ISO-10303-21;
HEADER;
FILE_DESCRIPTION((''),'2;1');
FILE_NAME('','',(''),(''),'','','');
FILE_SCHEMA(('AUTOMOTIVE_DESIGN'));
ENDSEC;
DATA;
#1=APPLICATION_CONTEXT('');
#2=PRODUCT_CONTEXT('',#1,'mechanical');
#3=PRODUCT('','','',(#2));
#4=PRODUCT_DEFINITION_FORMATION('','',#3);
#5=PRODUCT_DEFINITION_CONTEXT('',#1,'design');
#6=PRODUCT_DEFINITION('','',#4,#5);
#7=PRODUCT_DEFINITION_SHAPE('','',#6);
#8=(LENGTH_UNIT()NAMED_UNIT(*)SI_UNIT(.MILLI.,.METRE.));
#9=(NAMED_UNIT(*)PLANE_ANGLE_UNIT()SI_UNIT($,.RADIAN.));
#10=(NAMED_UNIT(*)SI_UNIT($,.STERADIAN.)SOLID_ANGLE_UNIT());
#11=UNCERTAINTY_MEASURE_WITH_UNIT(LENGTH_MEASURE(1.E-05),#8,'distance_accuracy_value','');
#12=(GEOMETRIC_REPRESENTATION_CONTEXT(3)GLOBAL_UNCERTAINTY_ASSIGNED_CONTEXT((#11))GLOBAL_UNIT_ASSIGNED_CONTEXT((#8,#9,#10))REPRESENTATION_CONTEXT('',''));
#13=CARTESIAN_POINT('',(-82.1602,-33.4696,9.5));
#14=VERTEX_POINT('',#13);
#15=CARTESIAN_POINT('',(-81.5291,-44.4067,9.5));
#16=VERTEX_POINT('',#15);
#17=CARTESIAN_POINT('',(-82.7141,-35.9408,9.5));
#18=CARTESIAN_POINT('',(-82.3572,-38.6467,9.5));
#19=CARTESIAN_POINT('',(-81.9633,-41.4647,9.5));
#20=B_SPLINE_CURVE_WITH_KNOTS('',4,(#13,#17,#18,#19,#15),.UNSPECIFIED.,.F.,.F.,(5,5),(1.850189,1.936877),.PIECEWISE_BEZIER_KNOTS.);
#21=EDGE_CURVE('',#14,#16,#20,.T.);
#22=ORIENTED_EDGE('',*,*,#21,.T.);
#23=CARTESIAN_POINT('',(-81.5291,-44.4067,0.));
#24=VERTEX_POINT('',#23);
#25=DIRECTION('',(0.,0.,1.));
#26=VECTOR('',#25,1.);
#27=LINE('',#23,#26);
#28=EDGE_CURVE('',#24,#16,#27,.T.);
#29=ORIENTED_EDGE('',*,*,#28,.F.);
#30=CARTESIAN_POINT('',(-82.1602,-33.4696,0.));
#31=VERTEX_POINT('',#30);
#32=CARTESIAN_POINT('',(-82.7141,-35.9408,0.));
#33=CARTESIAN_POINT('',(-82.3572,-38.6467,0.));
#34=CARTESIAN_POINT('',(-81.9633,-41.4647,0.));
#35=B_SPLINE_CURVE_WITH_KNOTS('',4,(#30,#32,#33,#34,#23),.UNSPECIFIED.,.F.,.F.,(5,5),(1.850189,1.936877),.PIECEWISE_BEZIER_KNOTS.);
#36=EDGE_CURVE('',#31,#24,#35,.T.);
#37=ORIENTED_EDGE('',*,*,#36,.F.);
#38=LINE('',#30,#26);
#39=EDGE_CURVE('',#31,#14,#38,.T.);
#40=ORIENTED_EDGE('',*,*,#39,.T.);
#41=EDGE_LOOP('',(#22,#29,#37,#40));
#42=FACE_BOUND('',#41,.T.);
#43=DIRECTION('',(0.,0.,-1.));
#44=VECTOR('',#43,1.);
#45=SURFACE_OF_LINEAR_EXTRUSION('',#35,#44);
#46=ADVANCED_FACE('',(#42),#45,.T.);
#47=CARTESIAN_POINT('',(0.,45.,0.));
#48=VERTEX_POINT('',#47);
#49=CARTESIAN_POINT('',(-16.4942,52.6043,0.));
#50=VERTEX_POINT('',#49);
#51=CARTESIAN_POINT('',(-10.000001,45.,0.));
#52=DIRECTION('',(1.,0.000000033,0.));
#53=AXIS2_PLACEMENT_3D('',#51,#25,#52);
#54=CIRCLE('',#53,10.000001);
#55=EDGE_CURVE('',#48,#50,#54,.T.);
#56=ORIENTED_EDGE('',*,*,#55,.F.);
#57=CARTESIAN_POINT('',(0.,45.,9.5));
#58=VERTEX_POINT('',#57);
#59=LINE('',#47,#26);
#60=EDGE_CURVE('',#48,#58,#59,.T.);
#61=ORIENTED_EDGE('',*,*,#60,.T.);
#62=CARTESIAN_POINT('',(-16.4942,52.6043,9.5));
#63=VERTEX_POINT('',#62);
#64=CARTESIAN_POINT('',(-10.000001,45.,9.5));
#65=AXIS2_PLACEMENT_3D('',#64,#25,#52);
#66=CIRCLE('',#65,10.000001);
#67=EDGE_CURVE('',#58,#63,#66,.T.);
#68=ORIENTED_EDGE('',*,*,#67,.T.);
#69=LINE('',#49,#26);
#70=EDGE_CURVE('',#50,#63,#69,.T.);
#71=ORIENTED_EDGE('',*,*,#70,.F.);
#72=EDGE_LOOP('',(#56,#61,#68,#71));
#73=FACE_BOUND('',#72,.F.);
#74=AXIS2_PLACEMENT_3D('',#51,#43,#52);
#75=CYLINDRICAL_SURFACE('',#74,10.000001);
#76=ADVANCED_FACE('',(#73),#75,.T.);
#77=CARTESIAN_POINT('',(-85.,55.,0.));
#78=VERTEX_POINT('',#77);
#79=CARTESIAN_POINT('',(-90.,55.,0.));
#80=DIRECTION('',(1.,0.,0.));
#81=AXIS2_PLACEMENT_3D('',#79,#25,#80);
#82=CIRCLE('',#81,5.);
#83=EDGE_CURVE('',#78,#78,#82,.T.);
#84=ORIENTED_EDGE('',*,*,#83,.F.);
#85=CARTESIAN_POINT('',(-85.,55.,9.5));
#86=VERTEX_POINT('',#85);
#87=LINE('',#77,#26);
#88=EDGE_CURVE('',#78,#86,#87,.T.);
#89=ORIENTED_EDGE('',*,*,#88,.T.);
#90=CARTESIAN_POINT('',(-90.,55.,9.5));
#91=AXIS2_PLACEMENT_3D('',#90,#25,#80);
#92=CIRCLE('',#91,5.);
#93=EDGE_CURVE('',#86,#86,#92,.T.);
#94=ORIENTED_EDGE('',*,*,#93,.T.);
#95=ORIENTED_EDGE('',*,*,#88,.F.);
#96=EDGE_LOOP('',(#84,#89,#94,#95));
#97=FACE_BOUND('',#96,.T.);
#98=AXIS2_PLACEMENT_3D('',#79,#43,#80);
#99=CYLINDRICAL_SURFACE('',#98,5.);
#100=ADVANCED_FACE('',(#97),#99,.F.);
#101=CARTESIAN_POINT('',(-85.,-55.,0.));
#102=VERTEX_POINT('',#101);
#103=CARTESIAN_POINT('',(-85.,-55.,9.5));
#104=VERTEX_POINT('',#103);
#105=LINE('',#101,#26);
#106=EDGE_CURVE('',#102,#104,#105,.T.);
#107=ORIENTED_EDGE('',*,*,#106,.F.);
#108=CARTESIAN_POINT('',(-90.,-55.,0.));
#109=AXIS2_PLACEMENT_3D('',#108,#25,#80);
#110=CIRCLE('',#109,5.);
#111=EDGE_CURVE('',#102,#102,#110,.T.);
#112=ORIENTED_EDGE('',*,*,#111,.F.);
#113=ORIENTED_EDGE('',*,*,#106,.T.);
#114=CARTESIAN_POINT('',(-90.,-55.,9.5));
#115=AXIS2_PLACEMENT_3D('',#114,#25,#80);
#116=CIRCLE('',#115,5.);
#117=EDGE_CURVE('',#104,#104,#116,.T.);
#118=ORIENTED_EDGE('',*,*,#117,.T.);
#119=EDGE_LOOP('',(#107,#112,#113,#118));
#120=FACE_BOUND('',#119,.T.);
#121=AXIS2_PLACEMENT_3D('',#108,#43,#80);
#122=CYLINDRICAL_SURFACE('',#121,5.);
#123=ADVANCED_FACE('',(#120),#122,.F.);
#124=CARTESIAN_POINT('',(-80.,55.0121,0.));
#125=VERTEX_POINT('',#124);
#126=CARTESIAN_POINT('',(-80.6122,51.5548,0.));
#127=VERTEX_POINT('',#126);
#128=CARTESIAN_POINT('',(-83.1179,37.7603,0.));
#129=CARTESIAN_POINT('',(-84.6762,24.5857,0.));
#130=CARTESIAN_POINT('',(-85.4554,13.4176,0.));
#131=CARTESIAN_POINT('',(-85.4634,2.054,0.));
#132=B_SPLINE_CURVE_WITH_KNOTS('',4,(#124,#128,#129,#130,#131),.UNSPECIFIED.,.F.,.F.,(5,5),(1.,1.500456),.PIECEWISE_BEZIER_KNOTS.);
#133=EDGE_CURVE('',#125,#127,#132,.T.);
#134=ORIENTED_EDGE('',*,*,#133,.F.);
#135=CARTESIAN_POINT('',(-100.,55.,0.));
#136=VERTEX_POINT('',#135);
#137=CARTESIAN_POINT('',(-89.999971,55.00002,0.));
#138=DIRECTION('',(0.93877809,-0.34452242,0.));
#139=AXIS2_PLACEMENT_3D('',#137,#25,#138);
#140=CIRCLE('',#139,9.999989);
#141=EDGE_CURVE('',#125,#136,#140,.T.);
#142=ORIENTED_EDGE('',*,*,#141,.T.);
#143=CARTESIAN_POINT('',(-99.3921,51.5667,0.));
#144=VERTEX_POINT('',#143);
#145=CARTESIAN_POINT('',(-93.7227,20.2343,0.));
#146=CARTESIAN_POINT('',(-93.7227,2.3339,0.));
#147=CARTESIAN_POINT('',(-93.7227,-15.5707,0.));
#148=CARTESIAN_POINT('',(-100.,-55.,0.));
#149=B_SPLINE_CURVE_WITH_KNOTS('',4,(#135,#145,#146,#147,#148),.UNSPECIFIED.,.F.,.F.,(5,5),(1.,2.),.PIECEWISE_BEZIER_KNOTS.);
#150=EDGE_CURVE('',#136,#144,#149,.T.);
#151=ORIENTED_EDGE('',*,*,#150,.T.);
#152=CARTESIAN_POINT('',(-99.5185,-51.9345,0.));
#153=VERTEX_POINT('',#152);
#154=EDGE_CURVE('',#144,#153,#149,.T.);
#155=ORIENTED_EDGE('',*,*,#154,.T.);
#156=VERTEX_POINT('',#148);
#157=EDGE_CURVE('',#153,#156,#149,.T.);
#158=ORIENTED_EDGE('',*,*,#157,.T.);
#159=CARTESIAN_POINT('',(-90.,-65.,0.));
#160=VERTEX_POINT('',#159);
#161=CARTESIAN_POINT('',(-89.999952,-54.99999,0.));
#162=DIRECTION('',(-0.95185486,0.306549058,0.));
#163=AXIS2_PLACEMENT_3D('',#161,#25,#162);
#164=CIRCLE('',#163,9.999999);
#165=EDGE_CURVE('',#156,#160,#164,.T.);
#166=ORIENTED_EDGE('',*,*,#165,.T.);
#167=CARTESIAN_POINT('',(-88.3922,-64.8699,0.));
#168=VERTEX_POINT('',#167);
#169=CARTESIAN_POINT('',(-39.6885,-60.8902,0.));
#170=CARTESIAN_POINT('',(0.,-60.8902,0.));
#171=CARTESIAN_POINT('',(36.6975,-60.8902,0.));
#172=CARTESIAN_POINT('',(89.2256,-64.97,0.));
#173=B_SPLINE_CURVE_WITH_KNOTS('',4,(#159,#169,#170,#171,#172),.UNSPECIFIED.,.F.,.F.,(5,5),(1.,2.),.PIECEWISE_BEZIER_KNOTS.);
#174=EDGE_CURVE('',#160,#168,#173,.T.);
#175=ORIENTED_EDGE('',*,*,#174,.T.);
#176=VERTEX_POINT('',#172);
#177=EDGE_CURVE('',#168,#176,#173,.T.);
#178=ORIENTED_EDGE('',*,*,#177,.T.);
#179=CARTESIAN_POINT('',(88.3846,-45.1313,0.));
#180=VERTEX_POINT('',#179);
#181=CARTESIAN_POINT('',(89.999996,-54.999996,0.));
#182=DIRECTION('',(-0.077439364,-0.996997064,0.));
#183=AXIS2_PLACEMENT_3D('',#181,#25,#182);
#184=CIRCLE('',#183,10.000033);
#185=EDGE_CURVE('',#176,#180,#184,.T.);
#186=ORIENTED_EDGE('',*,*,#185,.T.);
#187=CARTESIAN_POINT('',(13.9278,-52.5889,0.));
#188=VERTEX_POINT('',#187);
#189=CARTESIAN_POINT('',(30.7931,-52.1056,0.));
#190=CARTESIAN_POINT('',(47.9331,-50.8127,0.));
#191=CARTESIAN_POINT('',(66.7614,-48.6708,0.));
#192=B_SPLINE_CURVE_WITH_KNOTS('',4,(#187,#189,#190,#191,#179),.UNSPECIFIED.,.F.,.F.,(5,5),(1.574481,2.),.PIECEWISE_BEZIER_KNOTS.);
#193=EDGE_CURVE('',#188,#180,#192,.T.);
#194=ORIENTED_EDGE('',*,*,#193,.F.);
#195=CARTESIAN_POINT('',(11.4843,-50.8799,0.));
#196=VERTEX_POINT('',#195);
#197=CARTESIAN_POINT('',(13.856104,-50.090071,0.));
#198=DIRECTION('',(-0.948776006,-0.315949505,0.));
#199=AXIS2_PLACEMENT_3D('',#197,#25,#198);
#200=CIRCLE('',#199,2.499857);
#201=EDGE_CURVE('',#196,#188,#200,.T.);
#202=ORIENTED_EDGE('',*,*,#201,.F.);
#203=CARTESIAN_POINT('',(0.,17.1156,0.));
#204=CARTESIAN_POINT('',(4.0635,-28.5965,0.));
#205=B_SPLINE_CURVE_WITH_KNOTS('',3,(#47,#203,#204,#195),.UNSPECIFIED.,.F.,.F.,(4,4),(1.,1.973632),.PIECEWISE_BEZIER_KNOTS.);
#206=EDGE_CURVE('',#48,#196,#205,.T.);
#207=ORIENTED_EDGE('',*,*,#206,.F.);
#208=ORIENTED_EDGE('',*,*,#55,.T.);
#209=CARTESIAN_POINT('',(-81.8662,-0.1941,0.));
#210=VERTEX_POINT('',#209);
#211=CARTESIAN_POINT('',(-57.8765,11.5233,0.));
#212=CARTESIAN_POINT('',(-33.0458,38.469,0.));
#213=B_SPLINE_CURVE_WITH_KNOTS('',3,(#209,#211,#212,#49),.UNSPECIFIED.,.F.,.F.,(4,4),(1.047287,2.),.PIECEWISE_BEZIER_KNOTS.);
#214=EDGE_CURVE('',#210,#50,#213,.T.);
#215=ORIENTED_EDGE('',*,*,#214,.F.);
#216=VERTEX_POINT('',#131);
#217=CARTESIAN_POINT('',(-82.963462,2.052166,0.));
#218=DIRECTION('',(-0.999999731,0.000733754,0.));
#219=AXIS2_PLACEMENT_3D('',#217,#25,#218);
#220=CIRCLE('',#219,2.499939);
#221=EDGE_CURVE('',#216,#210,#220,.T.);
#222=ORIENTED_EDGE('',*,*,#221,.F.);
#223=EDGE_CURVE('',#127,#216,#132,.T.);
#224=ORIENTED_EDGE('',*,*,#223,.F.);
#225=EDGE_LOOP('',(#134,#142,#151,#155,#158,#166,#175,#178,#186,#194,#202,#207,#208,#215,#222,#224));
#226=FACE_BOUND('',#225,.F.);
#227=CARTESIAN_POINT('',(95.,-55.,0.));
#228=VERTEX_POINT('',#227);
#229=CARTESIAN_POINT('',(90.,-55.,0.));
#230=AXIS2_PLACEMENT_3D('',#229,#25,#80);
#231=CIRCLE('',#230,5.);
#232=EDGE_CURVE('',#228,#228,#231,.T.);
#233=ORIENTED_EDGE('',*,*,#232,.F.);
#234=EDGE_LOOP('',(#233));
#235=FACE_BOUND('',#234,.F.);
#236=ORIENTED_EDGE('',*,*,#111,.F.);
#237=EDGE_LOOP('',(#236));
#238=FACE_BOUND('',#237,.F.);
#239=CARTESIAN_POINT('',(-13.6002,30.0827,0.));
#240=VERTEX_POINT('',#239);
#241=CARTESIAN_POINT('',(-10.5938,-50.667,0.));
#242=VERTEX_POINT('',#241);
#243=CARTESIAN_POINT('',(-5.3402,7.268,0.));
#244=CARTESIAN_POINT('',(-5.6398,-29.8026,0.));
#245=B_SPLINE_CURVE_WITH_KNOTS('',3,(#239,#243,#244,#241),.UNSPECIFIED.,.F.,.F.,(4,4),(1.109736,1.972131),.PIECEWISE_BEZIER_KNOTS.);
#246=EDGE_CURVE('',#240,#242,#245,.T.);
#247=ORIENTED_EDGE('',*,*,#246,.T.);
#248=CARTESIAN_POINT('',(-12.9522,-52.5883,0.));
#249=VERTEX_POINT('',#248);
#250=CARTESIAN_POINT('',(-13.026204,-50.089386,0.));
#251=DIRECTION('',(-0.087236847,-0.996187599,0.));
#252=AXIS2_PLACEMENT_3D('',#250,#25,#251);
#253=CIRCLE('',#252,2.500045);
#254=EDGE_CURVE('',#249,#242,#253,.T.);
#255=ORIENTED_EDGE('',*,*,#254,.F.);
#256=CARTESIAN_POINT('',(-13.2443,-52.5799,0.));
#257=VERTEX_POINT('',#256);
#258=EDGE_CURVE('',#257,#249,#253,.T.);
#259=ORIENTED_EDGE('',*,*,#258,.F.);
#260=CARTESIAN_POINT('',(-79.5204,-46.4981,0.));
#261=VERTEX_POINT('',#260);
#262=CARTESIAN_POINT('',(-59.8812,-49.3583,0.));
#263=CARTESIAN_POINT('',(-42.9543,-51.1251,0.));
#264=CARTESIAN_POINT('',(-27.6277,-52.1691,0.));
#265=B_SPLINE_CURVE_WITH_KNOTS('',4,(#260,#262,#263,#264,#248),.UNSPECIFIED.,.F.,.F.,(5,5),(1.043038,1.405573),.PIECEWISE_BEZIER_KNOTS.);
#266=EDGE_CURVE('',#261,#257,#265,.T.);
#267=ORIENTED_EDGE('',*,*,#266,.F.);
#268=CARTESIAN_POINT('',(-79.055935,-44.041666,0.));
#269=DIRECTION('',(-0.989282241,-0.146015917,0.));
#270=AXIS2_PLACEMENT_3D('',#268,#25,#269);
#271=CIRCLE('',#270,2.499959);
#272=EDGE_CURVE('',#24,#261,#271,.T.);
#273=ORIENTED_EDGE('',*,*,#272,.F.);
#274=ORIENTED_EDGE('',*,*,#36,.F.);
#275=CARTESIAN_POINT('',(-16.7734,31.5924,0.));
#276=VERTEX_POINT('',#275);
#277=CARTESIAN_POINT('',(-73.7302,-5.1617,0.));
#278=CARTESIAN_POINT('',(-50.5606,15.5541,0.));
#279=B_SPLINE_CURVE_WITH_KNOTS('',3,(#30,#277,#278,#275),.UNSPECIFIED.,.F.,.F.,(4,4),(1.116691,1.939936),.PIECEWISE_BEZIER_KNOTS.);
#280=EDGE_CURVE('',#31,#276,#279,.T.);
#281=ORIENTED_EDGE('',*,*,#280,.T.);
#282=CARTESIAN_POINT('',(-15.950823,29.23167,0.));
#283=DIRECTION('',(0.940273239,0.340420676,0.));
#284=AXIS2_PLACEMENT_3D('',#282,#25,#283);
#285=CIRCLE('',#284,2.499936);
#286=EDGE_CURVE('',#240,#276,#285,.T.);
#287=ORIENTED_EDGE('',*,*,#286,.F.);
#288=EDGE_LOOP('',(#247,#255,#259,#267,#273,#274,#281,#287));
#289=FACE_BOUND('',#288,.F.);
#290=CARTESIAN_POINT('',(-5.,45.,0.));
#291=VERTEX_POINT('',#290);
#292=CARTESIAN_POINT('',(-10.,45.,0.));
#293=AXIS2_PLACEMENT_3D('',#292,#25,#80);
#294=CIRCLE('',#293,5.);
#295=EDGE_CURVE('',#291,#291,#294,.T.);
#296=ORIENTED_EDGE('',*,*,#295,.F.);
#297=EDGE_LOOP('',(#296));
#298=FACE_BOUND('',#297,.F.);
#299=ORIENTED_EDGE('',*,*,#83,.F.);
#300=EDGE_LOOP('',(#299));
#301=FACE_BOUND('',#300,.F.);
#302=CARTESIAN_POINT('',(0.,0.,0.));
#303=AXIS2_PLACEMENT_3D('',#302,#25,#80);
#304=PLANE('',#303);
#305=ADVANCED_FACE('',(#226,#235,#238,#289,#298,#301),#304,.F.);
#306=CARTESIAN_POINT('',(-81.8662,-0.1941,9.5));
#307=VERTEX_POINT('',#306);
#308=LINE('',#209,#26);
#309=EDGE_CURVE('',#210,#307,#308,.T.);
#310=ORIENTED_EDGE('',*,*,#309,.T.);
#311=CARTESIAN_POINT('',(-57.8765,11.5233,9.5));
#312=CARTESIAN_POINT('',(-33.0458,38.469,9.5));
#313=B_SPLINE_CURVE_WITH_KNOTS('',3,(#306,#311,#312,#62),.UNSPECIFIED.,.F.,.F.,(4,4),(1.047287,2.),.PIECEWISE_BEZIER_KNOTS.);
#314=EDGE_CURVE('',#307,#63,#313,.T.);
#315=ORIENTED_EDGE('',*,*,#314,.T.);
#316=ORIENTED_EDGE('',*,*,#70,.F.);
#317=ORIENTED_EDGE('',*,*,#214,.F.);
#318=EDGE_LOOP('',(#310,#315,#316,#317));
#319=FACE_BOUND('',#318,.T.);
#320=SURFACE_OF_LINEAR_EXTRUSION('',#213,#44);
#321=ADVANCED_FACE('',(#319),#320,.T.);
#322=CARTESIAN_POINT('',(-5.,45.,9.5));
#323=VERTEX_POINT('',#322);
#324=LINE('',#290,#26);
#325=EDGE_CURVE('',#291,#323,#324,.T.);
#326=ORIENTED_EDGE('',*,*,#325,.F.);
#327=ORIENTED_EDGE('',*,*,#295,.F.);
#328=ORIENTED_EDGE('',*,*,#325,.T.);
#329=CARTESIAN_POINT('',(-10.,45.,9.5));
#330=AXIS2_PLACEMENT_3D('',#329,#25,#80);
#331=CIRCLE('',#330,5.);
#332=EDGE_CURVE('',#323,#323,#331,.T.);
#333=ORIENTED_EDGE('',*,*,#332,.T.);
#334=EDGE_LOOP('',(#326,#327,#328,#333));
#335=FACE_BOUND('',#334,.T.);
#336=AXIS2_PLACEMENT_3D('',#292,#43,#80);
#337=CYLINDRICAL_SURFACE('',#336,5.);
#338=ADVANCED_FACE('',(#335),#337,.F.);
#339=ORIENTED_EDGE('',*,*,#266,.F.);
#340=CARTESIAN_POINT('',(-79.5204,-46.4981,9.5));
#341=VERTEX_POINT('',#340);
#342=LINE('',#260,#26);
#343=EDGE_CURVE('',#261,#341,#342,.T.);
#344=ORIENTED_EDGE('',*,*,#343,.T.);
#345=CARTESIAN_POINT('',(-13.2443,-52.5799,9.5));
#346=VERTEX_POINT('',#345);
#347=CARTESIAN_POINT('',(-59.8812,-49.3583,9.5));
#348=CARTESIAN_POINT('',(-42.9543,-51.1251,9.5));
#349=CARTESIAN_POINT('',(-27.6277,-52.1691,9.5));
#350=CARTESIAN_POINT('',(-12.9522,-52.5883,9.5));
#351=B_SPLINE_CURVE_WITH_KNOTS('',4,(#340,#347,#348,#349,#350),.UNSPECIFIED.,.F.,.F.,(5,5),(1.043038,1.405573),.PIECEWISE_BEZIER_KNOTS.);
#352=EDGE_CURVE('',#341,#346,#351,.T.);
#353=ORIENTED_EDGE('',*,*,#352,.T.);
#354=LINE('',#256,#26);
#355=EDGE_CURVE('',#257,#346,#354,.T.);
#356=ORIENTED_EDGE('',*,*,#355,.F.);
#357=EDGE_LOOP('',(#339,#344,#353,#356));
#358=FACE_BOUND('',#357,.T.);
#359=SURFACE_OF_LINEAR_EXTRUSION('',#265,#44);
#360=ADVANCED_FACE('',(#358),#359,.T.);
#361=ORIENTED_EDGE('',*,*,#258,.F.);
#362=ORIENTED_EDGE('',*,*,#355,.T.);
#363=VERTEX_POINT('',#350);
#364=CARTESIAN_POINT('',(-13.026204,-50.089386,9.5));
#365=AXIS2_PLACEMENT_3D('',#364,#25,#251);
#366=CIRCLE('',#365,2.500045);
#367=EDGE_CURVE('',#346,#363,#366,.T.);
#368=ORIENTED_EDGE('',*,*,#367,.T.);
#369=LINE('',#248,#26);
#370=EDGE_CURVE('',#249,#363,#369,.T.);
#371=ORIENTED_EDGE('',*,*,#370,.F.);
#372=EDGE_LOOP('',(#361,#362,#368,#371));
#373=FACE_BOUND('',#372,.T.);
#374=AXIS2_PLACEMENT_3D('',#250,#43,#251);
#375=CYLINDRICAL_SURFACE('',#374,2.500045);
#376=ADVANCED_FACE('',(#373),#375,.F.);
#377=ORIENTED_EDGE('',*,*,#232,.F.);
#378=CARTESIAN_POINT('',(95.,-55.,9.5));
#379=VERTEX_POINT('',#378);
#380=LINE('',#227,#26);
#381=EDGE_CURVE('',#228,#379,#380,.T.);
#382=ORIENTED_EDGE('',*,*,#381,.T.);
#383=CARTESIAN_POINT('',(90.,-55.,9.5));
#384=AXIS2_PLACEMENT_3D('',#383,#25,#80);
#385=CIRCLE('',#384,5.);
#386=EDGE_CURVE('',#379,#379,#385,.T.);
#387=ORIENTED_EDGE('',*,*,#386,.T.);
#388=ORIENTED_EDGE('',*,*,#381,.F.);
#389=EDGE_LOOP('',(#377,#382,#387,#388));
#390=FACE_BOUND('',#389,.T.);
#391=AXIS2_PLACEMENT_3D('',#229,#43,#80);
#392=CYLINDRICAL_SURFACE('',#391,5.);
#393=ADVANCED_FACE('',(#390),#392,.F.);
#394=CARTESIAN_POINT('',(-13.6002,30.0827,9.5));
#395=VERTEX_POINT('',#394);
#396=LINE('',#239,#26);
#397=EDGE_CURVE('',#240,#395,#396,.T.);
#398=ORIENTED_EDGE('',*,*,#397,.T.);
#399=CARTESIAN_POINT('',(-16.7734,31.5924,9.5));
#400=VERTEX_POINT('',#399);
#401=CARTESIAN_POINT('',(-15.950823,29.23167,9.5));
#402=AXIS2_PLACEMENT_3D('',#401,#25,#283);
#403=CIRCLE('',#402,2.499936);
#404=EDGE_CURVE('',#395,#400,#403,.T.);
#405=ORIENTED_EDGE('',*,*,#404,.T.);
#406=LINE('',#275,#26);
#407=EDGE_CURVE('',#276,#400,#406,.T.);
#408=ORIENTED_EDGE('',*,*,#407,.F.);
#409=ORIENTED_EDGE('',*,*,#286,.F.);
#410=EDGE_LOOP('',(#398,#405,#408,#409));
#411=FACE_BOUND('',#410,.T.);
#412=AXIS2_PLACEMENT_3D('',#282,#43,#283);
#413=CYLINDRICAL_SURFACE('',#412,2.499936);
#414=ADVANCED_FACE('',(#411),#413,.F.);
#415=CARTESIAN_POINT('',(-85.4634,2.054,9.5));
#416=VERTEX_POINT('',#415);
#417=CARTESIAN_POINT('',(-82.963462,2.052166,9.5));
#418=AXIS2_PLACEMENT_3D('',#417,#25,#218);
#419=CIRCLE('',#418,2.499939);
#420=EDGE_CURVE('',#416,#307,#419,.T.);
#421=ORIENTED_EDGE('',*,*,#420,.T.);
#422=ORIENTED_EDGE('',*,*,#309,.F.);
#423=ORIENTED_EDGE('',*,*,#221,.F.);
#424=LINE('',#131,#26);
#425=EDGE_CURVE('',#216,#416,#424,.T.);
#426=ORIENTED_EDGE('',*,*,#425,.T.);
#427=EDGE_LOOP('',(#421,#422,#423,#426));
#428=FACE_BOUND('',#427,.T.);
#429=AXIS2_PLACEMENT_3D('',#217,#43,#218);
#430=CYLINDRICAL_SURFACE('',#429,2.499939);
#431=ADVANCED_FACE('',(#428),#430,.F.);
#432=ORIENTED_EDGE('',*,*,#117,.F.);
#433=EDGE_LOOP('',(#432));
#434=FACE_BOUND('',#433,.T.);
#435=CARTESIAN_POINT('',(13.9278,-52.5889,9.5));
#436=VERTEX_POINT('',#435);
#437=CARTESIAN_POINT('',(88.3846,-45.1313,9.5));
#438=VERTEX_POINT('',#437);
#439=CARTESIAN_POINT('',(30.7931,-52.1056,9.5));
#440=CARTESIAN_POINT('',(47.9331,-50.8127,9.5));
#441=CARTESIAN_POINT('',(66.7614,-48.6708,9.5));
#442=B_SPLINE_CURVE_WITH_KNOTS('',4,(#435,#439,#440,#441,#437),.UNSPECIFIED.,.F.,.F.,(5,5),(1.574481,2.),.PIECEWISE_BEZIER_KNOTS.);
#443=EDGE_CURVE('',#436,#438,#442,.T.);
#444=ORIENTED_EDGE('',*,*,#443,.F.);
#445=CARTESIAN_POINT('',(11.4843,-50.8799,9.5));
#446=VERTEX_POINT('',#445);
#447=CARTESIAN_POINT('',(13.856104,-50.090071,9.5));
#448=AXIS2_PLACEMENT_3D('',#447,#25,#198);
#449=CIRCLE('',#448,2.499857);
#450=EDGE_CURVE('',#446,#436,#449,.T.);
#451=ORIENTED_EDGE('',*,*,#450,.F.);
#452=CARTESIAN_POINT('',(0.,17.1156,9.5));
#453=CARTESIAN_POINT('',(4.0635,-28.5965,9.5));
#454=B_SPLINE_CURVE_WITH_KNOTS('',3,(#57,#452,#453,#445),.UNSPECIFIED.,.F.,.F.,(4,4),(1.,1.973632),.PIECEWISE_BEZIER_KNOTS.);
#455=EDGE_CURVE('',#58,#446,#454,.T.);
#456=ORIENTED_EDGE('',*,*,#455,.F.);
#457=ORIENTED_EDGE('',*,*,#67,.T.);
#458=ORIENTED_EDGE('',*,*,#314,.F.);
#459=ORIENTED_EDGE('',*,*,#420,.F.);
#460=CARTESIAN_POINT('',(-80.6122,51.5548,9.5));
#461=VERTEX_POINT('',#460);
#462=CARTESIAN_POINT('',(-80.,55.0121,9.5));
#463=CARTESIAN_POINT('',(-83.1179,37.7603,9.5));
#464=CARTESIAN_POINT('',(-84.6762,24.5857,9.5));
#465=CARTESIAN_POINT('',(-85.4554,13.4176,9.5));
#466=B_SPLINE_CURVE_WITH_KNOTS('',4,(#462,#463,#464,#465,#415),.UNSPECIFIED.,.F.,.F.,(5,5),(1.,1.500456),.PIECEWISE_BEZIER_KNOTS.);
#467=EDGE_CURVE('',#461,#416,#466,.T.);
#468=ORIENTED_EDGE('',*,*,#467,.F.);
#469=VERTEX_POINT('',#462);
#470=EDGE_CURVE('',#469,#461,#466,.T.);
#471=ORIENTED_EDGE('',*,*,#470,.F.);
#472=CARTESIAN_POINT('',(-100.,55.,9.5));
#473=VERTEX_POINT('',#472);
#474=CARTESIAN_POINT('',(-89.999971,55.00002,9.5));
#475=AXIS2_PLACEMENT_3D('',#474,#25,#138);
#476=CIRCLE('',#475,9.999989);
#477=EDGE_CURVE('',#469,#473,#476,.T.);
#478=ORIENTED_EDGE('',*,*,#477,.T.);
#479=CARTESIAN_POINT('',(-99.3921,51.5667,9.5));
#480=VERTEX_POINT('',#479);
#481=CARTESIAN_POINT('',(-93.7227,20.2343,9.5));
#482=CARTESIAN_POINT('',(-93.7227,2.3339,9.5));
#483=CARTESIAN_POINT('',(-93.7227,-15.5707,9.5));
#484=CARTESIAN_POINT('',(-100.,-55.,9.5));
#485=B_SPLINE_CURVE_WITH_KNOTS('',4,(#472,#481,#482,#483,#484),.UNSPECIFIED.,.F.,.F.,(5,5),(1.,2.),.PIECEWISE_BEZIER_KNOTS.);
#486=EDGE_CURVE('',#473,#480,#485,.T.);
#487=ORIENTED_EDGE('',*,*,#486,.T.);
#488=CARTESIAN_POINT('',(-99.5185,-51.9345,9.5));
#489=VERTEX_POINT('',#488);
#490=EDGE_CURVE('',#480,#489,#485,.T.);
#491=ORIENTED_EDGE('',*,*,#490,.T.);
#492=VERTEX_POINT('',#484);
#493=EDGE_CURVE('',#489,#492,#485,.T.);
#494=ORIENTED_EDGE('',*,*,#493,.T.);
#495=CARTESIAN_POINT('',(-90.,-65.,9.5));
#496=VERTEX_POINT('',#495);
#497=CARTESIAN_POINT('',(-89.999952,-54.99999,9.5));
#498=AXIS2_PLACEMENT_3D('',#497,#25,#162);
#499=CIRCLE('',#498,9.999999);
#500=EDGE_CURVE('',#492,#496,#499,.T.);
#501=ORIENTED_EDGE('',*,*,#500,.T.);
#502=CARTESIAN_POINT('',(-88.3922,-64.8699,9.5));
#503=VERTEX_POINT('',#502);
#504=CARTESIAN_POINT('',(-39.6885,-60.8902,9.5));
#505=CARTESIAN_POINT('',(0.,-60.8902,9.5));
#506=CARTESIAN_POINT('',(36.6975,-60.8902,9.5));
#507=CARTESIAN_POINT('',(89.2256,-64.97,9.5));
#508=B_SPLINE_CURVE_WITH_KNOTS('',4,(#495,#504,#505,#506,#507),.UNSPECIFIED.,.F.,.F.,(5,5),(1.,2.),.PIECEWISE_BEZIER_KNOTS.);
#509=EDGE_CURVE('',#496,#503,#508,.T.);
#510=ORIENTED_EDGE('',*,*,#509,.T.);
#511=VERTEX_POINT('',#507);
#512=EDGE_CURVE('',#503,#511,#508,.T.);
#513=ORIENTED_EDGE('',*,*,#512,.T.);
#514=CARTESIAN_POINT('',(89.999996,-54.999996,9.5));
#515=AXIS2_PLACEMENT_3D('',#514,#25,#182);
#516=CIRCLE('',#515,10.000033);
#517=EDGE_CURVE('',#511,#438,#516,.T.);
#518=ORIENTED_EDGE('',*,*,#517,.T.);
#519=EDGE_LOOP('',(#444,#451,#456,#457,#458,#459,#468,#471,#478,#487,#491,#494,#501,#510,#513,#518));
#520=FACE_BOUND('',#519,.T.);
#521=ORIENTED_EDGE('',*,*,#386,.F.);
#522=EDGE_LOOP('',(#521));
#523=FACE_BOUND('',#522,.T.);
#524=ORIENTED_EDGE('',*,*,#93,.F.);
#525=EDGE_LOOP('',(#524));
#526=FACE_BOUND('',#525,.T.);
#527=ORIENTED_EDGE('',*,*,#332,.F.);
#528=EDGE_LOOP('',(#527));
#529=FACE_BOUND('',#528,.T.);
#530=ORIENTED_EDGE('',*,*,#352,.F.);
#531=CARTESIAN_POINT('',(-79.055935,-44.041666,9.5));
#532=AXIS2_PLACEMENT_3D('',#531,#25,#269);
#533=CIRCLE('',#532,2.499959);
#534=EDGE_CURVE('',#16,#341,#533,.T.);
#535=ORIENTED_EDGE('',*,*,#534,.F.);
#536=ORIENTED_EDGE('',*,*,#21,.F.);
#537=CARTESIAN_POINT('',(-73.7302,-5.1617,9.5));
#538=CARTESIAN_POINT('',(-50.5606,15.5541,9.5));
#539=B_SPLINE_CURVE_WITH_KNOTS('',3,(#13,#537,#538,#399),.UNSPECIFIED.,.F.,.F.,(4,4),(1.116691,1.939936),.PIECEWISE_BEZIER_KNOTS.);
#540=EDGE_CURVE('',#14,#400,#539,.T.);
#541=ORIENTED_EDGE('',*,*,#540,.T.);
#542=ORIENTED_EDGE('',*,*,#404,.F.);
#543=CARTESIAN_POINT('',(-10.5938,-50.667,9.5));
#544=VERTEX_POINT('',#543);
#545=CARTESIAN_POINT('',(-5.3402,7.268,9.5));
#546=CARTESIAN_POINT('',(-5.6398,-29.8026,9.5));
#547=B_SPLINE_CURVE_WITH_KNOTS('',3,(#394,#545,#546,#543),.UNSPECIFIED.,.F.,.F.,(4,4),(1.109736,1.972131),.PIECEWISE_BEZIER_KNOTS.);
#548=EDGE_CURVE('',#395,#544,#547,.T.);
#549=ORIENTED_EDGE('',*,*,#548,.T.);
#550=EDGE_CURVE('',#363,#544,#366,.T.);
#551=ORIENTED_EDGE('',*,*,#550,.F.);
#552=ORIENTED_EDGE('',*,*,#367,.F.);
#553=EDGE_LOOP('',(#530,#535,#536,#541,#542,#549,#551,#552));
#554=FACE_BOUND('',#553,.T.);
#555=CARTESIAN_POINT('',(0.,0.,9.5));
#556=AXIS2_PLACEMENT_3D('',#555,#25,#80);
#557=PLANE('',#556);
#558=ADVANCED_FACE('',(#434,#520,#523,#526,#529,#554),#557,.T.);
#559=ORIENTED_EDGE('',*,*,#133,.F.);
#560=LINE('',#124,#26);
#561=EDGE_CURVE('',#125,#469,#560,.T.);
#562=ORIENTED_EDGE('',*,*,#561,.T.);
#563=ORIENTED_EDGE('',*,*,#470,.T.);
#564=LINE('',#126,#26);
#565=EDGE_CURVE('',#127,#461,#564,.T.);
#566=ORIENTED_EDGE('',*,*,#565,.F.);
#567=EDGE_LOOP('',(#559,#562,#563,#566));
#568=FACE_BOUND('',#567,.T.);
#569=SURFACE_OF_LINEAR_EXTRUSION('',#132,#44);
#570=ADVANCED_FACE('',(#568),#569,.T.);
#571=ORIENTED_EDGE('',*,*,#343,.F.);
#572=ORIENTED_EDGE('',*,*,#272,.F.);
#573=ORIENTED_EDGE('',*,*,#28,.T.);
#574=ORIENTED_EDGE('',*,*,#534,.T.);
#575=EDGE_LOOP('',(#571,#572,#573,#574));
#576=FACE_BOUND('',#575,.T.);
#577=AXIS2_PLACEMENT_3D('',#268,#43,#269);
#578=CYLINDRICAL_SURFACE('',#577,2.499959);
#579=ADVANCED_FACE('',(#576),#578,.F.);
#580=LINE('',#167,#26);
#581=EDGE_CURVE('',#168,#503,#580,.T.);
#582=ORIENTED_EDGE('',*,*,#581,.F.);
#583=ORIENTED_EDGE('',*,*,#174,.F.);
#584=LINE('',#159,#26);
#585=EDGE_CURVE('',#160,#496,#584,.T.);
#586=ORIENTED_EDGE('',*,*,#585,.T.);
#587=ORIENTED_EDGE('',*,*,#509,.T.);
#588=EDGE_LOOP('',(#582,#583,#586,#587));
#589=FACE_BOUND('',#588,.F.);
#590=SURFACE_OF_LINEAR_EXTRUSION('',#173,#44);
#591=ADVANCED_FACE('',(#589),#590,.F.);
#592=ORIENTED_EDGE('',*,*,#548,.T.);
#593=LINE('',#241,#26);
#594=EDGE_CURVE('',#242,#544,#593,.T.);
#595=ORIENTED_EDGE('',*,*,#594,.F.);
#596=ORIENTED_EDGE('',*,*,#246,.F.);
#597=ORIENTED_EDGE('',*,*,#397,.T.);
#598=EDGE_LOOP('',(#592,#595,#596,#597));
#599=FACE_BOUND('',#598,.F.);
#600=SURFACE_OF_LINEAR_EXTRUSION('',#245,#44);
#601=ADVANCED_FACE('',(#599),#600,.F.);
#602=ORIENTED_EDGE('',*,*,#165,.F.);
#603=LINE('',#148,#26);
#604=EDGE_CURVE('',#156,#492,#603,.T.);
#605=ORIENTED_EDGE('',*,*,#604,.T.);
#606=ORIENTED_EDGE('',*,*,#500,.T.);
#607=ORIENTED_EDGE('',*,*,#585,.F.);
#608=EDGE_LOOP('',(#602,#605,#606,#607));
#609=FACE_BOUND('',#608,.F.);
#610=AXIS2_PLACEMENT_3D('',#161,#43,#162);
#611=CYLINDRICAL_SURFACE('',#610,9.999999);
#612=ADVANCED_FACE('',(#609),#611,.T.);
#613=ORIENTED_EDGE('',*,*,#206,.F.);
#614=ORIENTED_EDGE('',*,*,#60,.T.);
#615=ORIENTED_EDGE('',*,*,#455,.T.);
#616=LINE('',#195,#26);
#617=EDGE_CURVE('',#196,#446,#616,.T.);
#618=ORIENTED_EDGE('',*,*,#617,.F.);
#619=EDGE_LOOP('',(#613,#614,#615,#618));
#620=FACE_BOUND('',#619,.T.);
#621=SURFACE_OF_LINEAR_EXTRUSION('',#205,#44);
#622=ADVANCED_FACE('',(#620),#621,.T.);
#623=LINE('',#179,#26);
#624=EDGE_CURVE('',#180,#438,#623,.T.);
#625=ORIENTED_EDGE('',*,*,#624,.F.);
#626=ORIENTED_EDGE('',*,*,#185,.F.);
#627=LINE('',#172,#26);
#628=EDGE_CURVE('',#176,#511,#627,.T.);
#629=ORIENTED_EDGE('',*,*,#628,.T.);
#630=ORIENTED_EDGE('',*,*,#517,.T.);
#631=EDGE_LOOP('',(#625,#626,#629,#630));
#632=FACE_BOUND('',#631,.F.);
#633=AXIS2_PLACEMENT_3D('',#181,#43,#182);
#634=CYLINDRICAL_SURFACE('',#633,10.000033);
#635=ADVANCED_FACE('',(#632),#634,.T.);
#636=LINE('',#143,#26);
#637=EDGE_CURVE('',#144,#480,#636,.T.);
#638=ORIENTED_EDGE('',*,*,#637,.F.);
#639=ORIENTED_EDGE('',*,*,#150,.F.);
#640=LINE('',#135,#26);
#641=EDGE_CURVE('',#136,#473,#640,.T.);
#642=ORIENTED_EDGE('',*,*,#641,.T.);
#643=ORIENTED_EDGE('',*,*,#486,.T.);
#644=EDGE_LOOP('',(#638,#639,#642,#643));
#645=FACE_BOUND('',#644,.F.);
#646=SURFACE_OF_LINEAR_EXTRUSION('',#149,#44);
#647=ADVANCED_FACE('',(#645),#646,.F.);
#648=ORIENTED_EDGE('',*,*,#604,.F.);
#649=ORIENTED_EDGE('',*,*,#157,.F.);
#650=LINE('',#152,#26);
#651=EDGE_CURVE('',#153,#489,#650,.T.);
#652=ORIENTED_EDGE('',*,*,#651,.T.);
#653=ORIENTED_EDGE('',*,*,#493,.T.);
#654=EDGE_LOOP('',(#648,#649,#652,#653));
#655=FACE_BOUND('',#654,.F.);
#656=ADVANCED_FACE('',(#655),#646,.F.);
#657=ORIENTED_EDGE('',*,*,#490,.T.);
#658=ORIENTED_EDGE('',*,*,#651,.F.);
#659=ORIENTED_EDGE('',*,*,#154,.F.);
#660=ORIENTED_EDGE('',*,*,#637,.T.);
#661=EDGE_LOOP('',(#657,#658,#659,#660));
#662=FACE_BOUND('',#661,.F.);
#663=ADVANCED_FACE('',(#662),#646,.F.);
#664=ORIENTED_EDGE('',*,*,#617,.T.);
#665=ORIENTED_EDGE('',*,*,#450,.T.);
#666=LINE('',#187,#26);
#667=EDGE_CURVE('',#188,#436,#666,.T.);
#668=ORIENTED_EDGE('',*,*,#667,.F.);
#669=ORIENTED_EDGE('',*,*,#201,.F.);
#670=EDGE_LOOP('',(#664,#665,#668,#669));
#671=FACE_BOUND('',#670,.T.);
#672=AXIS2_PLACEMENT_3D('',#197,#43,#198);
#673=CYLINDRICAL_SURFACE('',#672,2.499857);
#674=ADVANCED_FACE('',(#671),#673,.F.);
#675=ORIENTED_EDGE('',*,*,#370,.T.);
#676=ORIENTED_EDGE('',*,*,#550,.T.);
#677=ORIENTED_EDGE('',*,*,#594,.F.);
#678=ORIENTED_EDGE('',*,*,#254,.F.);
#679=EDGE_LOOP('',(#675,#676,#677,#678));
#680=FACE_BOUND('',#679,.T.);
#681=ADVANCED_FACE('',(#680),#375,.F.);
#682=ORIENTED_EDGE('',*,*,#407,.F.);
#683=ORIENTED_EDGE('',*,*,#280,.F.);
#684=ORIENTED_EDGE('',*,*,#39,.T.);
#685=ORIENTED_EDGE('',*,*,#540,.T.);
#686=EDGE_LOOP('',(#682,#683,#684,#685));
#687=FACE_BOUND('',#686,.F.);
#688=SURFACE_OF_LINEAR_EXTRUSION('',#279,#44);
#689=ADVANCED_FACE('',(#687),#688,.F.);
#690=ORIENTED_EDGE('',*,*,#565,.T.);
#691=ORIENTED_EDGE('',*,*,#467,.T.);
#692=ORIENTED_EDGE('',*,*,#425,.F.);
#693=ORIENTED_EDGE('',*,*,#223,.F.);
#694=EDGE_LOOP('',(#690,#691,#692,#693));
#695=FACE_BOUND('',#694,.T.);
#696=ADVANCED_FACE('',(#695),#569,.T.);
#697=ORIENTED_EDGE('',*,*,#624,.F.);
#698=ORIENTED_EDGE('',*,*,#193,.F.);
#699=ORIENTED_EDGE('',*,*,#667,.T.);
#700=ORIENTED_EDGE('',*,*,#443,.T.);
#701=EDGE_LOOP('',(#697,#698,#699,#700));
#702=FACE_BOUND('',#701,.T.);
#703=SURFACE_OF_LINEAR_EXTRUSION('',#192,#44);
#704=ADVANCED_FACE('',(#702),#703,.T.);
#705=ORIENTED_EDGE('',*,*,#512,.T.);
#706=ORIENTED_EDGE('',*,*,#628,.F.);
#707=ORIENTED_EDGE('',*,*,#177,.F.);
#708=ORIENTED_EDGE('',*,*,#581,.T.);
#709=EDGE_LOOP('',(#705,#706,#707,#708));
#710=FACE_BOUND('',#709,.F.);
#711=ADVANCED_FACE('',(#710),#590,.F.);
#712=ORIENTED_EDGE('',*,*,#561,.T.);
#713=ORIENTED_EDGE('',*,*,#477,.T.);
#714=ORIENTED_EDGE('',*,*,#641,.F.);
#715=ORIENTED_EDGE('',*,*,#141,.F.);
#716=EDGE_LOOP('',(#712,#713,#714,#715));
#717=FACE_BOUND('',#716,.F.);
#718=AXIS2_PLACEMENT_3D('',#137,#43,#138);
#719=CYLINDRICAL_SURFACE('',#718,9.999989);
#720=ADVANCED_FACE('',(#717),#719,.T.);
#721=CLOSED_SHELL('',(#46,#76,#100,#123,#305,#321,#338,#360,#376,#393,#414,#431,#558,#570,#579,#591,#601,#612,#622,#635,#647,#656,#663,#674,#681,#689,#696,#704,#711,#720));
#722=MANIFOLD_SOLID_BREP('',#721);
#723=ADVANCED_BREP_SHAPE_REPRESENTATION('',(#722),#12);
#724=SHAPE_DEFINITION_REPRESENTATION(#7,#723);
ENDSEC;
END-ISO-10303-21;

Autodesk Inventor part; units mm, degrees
ref_plane "YZ Plane" through (0, 0, 0) normal (1, 0, 0) x (0, 1, 0)
ref_plane "XZ Plane" through (0, 0, 0) normal (0, 1, 0) x (-1, 0, 0)
ref_plane "XY Plane" through (0, 0, 0) normal (0, 0, 1) x (1, 0, 0)
sketch "Sketch1" plane through (0, 0, 0) normal (0, 0, 1) x (1, 0, 0)
  line L0 (-110, 70) -> (110, 70) construction
  line L1 (110, 70) -> (110, -70) construction
  line L2 (110, -70) -> (-110, -70) construction
  line L3 (-110, -70) -> (-110, 70) construction
  circle A0 centre (-90, 55) radius 5
  circle A1 centre (-90, -55) radius 5
  circle A2 centre (90, -55) radius 5
  circle A3 centre (-10, 45) radius 5
  line L4 (-67, 0) -> (-42, 0) construction
  line L5 (-42, 0) -> (-42, -30) construction
  line L6 (-42, -30) -> (-67, -30) construction
  line L7 (-67, -30) -> (-67, 0) construction
  circle A4 centre (-54.5, -11) radius 10 construction
  circle A5 centre (-63.5044, -24.4163) radius 3 construction
  circle A6 centre (-57.3559, -26.4695) radius 3 construction
  circle A7 centre (-51.263, -24.6531) radius 3 construction
  circle A8 centre (-45.3418, -26.5938) radius 3 construction
  arc A9 (-80.6122, 51.5548) -> (-99.3921, 51.5667) centre (-90, 55) ccw
  arc A10 (0, 45) -> (-16.4942, 52.6043) centre (-10, 45) ccw
  arc A11 (89.2256, -64.97) -> (88.3846, -45.1313) centre (90, -55) ccw
  line L8 (-100, 55) -> (-93.7227, 20.2343) construction
  line L9 (-93.7227, 20.2343) -> (-93.7227, 2.3339) construction
  line L10 (-93.7227, 2.3339) -> (-93.7227, -15.5707) construction
  line L11 (-93.7227, -15.5707) -> (-100, -55) construction
  spline S0 degree 4 poles (-100, 55) (-93.7227, 20.2343) (-93.7227, 2.3339) (-93.7227, -15.5707) (-100, -55) knots 1 1 1 1 1 2 2 2 2 2
  line L12 (-80, 55.0121) -> (-83.1179, 37.7603) construction
  line L13 (-33.0458, 38.469) -> (-16.4942, 52.6043) construction
  spline S1 degree 3 poles (-81.8662, -0.1941) (-57.8765, 11.5233) (-33.0458, 38.469) (-16.4942, 52.6043) knots 1.047287 1.047287 1.047287 1.047287 2 2 2 2
  line L14 (66.7614, -48.6708) -> (88.3846, -45.1313) construction
  line L15 (-90, -65) -> (-39.6885, -60.8902) construction
  line L16 (-39.6885, -60.8902) -> (0, -60.8902) construction
  line L17 (0, -60.8902) -> (36.6975, -60.8902) construction
  line L18 (36.6975, -60.8902) -> (89.2256, -64.97) construction
  spline S2 degree 4 poles (-90, -65) (-39.6885, -60.8902) (0, -60.8902) (36.6975, -60.8902) (89.2256, -64.97) knots 1 1 1 1 1 2 2 2 2 2
  spline S3 degree 3 poles (-13.6002, 30.0827) (-5.3402, 7.268) (-5.6398, -29.8026) (-10.5938, -50.667) knots 1.109736 1.109736 1.109736 1.109736 1.972131 1.972131 1.972131 1.972131
  line L19 (0, 45) -> (0, 17.1156) construction
  spline S4 degree 3 poles (0, 45) (0, 17.1156) (4.0635, -28.5965) (11.4843, -50.8799) knots 1 1 1 1 1.973632 1.973632 1.973632 1.973632
  arc A12 (-99.5185, -51.9345) -> (-88.3922, -64.8699) centre (-90, -55) ccw
  spline S5 degree 3 poles (-82.1602, -33.4696) (-73.7302, -5.1617) (-50.5606, 15.5541) (-16.7734, 31.5924) knots 1.116691 1.116691 1.116691 1.116691 1.939936 1.939936 1.939936 1.939936
  line L20 (-82.1602, -33.4696) -> (-73.7302, -5.1617) construction
  spline S6 degree 4 poles (-80, 55.0121) (-83.1179, 37.7603) (-84.6762, 24.5857) (-85.4554, 13.4176) (-85.4634, 2.054) knots 1 1 1 1 1 1.500456 1.500456 1.500456 1.500456 1.500456
  spline S7 degree 4 poles (-82.1602, -33.4696) (-82.7141, -35.9408) (-82.3572, -38.6467) (-81.9633, -41.4647) (-81.5291, -44.4067) knots 1.850189 1.850189 1.850189 1.850189 1.850189 1.936877 1.936877 1.936877 1.936877 1.936877
  line L21 (-82.1602, -33.4696) -> (-82.7141, -35.9408) construction
  spline S8 degree 4 poles (-79.5204, -46.4981) (-59.8812, -49.3583) (-42.9543, -51.1251) (-27.6277, -52.1691) (-12.9522, -52.5883) knots 1.043038 1.043038 1.043038 1.043038 1.043038 1.405573 1.405573 1.405573 1.405573 1.405573
  spline S9 degree 4 poles (13.9278, -52.5889) (30.7931, -52.1056) (47.9331, -50.8127) (66.7614, -48.6708) (88.3846, -45.1313) knots 1.574481 1.574481 1.574481 1.574481 1.574481 2 2 2 2 2
  arc A13 (-13.6002, 30.0827) -> (-16.7734, 31.5924) centre (-15.9509, 29.2316) ccw
  line L22 (-73.7302, -5.1617) -> (-50.5606, 15.5541) construction
  line L23 (-50.5606, 15.5541) -> (-16.7734, 31.5924) construction
  line L24 (-13.6002, 30.0827) -> (-5.3402, 7.268) construction
  arc A14 (-13.2443, -52.5799) -> (-10.5938, -50.667) centre (-13.0262, -50.0894) ccw
  line L25 (-5.3402, 7.268) -> (-5.6398, -29.8026) construction
  line L26 (-5.6398, -29.8026) -> (-10.5938, -50.667) construction
  line L27 (-27.6277, -52.1691) -> (-12.9522, -52.5883) construction
  arc A15 (11.4843, -50.8799) -> (13.9278, -52.5889) centre (13.8562, -50.09) ccw
  line L28 (0, 17.1156) -> (4.0635, -28.5965) construction
  line L29 (4.0635, -28.5965) -> (11.4843, -50.8799) construction
  line L30 (13.9278, -52.5889) -> (30.7931, -52.1056) construction
  line L31 (30.7931, -52.1056) -> (47.9331, -50.8127) construction
  line L32 (47.9331, -50.8127) -> (66.7614, -48.6708) construction
  arc A16 (-81.5291, -44.4067) -> (-79.5204, -46.4981) centre (-79.0558, -44.0416) ccw
  line L33 (-82.7141, -35.9408) -> (-82.3572, -38.6467) construction
  line L34 (-82.3572, -38.6467) -> (-81.9633, -41.4647) construction
  line L35 (-81.9633, -41.4647) -> (-81.5291, -44.4067) construction
  line L36 (-79.5204, -46.4981) -> (-59.8812, -49.3583) construction
  line L37 (-59.8812, -49.3583) -> (-42.9543, -51.1251) construction
  line L38 (-42.9543, -51.1251) -> (-27.6277, -52.1691) construction
  arc A17 (-85.4634, 2.054) -> (-81.8662, -0.1941) centre (-82.9634, 2.0522) ccw
  line L39 (-83.1179, 37.7603) -> (-84.6762, 24.5857) construction
  line L40 (-84.6762, 24.5857) -> (-85.4554, 13.4176) construction
  line L41 (-85.4554, 13.4176) -> (-85.4634, 2.054) construction
  line L42 (-81.8662, -0.1941) -> (-57.8765, 11.5233) construction
  line L43 (-57.8765, 11.5233) -> (-33.0458, 38.469) construction
  point P0 (0, 0)
  dimension "d1" = 70
  dimension "d2" = 70
  dimension "d3" = 110
  dimension "d4" = 110
  dimension "d5" = 10
  dimension "d6" = 10
  dimension "d7" = 10
  dimension "d8" = 10
  dimension "d9" = 55
  dimension "d10" = 55
  dimension "d11" = 55
  dimension "d12" = 180
  dimension "d13" = 90
  dimension "d14" = 90
  dimension "d15" = 10
  dimension "d16" = 45
  dimension "d17" = 42
  dimension "d18" = 30
  dimension "d19" = 0
  dimension "d20" = 25
  dimension "d21" = 20
  dimension "d22" = 6
  dimension "d23" = 6
  dimension "d24" = 6
  dimension "d25" = 11
  dimension "d26" = 12.5
  dimension "d27" = 6
  dimension "d28" = 20
  dimension "d29" = 20
  dimension "d30" = 20
  dimension "d34" = 5
  dimension "d35" = 5
  dimension "d36" = 5
  dimension "d37" = 5
  dimension "d38" = 5
extrude "Extrusion2" add sketch "Sketch1" along normal blind 9.5 contours S6 A17 S1 A10 S4 A15 S9 A11 S2 A12 S0 A9
equation "\"d1\" = d2"
equation "\"d4\" = d3"
equation "\"d10\" = d9"
equation "\"d11\" = d9"
equation "\"d14\" = d13"
equation "\"d26\" = 0.5 * d20"
properties part number "Bracket Concept MK1"
